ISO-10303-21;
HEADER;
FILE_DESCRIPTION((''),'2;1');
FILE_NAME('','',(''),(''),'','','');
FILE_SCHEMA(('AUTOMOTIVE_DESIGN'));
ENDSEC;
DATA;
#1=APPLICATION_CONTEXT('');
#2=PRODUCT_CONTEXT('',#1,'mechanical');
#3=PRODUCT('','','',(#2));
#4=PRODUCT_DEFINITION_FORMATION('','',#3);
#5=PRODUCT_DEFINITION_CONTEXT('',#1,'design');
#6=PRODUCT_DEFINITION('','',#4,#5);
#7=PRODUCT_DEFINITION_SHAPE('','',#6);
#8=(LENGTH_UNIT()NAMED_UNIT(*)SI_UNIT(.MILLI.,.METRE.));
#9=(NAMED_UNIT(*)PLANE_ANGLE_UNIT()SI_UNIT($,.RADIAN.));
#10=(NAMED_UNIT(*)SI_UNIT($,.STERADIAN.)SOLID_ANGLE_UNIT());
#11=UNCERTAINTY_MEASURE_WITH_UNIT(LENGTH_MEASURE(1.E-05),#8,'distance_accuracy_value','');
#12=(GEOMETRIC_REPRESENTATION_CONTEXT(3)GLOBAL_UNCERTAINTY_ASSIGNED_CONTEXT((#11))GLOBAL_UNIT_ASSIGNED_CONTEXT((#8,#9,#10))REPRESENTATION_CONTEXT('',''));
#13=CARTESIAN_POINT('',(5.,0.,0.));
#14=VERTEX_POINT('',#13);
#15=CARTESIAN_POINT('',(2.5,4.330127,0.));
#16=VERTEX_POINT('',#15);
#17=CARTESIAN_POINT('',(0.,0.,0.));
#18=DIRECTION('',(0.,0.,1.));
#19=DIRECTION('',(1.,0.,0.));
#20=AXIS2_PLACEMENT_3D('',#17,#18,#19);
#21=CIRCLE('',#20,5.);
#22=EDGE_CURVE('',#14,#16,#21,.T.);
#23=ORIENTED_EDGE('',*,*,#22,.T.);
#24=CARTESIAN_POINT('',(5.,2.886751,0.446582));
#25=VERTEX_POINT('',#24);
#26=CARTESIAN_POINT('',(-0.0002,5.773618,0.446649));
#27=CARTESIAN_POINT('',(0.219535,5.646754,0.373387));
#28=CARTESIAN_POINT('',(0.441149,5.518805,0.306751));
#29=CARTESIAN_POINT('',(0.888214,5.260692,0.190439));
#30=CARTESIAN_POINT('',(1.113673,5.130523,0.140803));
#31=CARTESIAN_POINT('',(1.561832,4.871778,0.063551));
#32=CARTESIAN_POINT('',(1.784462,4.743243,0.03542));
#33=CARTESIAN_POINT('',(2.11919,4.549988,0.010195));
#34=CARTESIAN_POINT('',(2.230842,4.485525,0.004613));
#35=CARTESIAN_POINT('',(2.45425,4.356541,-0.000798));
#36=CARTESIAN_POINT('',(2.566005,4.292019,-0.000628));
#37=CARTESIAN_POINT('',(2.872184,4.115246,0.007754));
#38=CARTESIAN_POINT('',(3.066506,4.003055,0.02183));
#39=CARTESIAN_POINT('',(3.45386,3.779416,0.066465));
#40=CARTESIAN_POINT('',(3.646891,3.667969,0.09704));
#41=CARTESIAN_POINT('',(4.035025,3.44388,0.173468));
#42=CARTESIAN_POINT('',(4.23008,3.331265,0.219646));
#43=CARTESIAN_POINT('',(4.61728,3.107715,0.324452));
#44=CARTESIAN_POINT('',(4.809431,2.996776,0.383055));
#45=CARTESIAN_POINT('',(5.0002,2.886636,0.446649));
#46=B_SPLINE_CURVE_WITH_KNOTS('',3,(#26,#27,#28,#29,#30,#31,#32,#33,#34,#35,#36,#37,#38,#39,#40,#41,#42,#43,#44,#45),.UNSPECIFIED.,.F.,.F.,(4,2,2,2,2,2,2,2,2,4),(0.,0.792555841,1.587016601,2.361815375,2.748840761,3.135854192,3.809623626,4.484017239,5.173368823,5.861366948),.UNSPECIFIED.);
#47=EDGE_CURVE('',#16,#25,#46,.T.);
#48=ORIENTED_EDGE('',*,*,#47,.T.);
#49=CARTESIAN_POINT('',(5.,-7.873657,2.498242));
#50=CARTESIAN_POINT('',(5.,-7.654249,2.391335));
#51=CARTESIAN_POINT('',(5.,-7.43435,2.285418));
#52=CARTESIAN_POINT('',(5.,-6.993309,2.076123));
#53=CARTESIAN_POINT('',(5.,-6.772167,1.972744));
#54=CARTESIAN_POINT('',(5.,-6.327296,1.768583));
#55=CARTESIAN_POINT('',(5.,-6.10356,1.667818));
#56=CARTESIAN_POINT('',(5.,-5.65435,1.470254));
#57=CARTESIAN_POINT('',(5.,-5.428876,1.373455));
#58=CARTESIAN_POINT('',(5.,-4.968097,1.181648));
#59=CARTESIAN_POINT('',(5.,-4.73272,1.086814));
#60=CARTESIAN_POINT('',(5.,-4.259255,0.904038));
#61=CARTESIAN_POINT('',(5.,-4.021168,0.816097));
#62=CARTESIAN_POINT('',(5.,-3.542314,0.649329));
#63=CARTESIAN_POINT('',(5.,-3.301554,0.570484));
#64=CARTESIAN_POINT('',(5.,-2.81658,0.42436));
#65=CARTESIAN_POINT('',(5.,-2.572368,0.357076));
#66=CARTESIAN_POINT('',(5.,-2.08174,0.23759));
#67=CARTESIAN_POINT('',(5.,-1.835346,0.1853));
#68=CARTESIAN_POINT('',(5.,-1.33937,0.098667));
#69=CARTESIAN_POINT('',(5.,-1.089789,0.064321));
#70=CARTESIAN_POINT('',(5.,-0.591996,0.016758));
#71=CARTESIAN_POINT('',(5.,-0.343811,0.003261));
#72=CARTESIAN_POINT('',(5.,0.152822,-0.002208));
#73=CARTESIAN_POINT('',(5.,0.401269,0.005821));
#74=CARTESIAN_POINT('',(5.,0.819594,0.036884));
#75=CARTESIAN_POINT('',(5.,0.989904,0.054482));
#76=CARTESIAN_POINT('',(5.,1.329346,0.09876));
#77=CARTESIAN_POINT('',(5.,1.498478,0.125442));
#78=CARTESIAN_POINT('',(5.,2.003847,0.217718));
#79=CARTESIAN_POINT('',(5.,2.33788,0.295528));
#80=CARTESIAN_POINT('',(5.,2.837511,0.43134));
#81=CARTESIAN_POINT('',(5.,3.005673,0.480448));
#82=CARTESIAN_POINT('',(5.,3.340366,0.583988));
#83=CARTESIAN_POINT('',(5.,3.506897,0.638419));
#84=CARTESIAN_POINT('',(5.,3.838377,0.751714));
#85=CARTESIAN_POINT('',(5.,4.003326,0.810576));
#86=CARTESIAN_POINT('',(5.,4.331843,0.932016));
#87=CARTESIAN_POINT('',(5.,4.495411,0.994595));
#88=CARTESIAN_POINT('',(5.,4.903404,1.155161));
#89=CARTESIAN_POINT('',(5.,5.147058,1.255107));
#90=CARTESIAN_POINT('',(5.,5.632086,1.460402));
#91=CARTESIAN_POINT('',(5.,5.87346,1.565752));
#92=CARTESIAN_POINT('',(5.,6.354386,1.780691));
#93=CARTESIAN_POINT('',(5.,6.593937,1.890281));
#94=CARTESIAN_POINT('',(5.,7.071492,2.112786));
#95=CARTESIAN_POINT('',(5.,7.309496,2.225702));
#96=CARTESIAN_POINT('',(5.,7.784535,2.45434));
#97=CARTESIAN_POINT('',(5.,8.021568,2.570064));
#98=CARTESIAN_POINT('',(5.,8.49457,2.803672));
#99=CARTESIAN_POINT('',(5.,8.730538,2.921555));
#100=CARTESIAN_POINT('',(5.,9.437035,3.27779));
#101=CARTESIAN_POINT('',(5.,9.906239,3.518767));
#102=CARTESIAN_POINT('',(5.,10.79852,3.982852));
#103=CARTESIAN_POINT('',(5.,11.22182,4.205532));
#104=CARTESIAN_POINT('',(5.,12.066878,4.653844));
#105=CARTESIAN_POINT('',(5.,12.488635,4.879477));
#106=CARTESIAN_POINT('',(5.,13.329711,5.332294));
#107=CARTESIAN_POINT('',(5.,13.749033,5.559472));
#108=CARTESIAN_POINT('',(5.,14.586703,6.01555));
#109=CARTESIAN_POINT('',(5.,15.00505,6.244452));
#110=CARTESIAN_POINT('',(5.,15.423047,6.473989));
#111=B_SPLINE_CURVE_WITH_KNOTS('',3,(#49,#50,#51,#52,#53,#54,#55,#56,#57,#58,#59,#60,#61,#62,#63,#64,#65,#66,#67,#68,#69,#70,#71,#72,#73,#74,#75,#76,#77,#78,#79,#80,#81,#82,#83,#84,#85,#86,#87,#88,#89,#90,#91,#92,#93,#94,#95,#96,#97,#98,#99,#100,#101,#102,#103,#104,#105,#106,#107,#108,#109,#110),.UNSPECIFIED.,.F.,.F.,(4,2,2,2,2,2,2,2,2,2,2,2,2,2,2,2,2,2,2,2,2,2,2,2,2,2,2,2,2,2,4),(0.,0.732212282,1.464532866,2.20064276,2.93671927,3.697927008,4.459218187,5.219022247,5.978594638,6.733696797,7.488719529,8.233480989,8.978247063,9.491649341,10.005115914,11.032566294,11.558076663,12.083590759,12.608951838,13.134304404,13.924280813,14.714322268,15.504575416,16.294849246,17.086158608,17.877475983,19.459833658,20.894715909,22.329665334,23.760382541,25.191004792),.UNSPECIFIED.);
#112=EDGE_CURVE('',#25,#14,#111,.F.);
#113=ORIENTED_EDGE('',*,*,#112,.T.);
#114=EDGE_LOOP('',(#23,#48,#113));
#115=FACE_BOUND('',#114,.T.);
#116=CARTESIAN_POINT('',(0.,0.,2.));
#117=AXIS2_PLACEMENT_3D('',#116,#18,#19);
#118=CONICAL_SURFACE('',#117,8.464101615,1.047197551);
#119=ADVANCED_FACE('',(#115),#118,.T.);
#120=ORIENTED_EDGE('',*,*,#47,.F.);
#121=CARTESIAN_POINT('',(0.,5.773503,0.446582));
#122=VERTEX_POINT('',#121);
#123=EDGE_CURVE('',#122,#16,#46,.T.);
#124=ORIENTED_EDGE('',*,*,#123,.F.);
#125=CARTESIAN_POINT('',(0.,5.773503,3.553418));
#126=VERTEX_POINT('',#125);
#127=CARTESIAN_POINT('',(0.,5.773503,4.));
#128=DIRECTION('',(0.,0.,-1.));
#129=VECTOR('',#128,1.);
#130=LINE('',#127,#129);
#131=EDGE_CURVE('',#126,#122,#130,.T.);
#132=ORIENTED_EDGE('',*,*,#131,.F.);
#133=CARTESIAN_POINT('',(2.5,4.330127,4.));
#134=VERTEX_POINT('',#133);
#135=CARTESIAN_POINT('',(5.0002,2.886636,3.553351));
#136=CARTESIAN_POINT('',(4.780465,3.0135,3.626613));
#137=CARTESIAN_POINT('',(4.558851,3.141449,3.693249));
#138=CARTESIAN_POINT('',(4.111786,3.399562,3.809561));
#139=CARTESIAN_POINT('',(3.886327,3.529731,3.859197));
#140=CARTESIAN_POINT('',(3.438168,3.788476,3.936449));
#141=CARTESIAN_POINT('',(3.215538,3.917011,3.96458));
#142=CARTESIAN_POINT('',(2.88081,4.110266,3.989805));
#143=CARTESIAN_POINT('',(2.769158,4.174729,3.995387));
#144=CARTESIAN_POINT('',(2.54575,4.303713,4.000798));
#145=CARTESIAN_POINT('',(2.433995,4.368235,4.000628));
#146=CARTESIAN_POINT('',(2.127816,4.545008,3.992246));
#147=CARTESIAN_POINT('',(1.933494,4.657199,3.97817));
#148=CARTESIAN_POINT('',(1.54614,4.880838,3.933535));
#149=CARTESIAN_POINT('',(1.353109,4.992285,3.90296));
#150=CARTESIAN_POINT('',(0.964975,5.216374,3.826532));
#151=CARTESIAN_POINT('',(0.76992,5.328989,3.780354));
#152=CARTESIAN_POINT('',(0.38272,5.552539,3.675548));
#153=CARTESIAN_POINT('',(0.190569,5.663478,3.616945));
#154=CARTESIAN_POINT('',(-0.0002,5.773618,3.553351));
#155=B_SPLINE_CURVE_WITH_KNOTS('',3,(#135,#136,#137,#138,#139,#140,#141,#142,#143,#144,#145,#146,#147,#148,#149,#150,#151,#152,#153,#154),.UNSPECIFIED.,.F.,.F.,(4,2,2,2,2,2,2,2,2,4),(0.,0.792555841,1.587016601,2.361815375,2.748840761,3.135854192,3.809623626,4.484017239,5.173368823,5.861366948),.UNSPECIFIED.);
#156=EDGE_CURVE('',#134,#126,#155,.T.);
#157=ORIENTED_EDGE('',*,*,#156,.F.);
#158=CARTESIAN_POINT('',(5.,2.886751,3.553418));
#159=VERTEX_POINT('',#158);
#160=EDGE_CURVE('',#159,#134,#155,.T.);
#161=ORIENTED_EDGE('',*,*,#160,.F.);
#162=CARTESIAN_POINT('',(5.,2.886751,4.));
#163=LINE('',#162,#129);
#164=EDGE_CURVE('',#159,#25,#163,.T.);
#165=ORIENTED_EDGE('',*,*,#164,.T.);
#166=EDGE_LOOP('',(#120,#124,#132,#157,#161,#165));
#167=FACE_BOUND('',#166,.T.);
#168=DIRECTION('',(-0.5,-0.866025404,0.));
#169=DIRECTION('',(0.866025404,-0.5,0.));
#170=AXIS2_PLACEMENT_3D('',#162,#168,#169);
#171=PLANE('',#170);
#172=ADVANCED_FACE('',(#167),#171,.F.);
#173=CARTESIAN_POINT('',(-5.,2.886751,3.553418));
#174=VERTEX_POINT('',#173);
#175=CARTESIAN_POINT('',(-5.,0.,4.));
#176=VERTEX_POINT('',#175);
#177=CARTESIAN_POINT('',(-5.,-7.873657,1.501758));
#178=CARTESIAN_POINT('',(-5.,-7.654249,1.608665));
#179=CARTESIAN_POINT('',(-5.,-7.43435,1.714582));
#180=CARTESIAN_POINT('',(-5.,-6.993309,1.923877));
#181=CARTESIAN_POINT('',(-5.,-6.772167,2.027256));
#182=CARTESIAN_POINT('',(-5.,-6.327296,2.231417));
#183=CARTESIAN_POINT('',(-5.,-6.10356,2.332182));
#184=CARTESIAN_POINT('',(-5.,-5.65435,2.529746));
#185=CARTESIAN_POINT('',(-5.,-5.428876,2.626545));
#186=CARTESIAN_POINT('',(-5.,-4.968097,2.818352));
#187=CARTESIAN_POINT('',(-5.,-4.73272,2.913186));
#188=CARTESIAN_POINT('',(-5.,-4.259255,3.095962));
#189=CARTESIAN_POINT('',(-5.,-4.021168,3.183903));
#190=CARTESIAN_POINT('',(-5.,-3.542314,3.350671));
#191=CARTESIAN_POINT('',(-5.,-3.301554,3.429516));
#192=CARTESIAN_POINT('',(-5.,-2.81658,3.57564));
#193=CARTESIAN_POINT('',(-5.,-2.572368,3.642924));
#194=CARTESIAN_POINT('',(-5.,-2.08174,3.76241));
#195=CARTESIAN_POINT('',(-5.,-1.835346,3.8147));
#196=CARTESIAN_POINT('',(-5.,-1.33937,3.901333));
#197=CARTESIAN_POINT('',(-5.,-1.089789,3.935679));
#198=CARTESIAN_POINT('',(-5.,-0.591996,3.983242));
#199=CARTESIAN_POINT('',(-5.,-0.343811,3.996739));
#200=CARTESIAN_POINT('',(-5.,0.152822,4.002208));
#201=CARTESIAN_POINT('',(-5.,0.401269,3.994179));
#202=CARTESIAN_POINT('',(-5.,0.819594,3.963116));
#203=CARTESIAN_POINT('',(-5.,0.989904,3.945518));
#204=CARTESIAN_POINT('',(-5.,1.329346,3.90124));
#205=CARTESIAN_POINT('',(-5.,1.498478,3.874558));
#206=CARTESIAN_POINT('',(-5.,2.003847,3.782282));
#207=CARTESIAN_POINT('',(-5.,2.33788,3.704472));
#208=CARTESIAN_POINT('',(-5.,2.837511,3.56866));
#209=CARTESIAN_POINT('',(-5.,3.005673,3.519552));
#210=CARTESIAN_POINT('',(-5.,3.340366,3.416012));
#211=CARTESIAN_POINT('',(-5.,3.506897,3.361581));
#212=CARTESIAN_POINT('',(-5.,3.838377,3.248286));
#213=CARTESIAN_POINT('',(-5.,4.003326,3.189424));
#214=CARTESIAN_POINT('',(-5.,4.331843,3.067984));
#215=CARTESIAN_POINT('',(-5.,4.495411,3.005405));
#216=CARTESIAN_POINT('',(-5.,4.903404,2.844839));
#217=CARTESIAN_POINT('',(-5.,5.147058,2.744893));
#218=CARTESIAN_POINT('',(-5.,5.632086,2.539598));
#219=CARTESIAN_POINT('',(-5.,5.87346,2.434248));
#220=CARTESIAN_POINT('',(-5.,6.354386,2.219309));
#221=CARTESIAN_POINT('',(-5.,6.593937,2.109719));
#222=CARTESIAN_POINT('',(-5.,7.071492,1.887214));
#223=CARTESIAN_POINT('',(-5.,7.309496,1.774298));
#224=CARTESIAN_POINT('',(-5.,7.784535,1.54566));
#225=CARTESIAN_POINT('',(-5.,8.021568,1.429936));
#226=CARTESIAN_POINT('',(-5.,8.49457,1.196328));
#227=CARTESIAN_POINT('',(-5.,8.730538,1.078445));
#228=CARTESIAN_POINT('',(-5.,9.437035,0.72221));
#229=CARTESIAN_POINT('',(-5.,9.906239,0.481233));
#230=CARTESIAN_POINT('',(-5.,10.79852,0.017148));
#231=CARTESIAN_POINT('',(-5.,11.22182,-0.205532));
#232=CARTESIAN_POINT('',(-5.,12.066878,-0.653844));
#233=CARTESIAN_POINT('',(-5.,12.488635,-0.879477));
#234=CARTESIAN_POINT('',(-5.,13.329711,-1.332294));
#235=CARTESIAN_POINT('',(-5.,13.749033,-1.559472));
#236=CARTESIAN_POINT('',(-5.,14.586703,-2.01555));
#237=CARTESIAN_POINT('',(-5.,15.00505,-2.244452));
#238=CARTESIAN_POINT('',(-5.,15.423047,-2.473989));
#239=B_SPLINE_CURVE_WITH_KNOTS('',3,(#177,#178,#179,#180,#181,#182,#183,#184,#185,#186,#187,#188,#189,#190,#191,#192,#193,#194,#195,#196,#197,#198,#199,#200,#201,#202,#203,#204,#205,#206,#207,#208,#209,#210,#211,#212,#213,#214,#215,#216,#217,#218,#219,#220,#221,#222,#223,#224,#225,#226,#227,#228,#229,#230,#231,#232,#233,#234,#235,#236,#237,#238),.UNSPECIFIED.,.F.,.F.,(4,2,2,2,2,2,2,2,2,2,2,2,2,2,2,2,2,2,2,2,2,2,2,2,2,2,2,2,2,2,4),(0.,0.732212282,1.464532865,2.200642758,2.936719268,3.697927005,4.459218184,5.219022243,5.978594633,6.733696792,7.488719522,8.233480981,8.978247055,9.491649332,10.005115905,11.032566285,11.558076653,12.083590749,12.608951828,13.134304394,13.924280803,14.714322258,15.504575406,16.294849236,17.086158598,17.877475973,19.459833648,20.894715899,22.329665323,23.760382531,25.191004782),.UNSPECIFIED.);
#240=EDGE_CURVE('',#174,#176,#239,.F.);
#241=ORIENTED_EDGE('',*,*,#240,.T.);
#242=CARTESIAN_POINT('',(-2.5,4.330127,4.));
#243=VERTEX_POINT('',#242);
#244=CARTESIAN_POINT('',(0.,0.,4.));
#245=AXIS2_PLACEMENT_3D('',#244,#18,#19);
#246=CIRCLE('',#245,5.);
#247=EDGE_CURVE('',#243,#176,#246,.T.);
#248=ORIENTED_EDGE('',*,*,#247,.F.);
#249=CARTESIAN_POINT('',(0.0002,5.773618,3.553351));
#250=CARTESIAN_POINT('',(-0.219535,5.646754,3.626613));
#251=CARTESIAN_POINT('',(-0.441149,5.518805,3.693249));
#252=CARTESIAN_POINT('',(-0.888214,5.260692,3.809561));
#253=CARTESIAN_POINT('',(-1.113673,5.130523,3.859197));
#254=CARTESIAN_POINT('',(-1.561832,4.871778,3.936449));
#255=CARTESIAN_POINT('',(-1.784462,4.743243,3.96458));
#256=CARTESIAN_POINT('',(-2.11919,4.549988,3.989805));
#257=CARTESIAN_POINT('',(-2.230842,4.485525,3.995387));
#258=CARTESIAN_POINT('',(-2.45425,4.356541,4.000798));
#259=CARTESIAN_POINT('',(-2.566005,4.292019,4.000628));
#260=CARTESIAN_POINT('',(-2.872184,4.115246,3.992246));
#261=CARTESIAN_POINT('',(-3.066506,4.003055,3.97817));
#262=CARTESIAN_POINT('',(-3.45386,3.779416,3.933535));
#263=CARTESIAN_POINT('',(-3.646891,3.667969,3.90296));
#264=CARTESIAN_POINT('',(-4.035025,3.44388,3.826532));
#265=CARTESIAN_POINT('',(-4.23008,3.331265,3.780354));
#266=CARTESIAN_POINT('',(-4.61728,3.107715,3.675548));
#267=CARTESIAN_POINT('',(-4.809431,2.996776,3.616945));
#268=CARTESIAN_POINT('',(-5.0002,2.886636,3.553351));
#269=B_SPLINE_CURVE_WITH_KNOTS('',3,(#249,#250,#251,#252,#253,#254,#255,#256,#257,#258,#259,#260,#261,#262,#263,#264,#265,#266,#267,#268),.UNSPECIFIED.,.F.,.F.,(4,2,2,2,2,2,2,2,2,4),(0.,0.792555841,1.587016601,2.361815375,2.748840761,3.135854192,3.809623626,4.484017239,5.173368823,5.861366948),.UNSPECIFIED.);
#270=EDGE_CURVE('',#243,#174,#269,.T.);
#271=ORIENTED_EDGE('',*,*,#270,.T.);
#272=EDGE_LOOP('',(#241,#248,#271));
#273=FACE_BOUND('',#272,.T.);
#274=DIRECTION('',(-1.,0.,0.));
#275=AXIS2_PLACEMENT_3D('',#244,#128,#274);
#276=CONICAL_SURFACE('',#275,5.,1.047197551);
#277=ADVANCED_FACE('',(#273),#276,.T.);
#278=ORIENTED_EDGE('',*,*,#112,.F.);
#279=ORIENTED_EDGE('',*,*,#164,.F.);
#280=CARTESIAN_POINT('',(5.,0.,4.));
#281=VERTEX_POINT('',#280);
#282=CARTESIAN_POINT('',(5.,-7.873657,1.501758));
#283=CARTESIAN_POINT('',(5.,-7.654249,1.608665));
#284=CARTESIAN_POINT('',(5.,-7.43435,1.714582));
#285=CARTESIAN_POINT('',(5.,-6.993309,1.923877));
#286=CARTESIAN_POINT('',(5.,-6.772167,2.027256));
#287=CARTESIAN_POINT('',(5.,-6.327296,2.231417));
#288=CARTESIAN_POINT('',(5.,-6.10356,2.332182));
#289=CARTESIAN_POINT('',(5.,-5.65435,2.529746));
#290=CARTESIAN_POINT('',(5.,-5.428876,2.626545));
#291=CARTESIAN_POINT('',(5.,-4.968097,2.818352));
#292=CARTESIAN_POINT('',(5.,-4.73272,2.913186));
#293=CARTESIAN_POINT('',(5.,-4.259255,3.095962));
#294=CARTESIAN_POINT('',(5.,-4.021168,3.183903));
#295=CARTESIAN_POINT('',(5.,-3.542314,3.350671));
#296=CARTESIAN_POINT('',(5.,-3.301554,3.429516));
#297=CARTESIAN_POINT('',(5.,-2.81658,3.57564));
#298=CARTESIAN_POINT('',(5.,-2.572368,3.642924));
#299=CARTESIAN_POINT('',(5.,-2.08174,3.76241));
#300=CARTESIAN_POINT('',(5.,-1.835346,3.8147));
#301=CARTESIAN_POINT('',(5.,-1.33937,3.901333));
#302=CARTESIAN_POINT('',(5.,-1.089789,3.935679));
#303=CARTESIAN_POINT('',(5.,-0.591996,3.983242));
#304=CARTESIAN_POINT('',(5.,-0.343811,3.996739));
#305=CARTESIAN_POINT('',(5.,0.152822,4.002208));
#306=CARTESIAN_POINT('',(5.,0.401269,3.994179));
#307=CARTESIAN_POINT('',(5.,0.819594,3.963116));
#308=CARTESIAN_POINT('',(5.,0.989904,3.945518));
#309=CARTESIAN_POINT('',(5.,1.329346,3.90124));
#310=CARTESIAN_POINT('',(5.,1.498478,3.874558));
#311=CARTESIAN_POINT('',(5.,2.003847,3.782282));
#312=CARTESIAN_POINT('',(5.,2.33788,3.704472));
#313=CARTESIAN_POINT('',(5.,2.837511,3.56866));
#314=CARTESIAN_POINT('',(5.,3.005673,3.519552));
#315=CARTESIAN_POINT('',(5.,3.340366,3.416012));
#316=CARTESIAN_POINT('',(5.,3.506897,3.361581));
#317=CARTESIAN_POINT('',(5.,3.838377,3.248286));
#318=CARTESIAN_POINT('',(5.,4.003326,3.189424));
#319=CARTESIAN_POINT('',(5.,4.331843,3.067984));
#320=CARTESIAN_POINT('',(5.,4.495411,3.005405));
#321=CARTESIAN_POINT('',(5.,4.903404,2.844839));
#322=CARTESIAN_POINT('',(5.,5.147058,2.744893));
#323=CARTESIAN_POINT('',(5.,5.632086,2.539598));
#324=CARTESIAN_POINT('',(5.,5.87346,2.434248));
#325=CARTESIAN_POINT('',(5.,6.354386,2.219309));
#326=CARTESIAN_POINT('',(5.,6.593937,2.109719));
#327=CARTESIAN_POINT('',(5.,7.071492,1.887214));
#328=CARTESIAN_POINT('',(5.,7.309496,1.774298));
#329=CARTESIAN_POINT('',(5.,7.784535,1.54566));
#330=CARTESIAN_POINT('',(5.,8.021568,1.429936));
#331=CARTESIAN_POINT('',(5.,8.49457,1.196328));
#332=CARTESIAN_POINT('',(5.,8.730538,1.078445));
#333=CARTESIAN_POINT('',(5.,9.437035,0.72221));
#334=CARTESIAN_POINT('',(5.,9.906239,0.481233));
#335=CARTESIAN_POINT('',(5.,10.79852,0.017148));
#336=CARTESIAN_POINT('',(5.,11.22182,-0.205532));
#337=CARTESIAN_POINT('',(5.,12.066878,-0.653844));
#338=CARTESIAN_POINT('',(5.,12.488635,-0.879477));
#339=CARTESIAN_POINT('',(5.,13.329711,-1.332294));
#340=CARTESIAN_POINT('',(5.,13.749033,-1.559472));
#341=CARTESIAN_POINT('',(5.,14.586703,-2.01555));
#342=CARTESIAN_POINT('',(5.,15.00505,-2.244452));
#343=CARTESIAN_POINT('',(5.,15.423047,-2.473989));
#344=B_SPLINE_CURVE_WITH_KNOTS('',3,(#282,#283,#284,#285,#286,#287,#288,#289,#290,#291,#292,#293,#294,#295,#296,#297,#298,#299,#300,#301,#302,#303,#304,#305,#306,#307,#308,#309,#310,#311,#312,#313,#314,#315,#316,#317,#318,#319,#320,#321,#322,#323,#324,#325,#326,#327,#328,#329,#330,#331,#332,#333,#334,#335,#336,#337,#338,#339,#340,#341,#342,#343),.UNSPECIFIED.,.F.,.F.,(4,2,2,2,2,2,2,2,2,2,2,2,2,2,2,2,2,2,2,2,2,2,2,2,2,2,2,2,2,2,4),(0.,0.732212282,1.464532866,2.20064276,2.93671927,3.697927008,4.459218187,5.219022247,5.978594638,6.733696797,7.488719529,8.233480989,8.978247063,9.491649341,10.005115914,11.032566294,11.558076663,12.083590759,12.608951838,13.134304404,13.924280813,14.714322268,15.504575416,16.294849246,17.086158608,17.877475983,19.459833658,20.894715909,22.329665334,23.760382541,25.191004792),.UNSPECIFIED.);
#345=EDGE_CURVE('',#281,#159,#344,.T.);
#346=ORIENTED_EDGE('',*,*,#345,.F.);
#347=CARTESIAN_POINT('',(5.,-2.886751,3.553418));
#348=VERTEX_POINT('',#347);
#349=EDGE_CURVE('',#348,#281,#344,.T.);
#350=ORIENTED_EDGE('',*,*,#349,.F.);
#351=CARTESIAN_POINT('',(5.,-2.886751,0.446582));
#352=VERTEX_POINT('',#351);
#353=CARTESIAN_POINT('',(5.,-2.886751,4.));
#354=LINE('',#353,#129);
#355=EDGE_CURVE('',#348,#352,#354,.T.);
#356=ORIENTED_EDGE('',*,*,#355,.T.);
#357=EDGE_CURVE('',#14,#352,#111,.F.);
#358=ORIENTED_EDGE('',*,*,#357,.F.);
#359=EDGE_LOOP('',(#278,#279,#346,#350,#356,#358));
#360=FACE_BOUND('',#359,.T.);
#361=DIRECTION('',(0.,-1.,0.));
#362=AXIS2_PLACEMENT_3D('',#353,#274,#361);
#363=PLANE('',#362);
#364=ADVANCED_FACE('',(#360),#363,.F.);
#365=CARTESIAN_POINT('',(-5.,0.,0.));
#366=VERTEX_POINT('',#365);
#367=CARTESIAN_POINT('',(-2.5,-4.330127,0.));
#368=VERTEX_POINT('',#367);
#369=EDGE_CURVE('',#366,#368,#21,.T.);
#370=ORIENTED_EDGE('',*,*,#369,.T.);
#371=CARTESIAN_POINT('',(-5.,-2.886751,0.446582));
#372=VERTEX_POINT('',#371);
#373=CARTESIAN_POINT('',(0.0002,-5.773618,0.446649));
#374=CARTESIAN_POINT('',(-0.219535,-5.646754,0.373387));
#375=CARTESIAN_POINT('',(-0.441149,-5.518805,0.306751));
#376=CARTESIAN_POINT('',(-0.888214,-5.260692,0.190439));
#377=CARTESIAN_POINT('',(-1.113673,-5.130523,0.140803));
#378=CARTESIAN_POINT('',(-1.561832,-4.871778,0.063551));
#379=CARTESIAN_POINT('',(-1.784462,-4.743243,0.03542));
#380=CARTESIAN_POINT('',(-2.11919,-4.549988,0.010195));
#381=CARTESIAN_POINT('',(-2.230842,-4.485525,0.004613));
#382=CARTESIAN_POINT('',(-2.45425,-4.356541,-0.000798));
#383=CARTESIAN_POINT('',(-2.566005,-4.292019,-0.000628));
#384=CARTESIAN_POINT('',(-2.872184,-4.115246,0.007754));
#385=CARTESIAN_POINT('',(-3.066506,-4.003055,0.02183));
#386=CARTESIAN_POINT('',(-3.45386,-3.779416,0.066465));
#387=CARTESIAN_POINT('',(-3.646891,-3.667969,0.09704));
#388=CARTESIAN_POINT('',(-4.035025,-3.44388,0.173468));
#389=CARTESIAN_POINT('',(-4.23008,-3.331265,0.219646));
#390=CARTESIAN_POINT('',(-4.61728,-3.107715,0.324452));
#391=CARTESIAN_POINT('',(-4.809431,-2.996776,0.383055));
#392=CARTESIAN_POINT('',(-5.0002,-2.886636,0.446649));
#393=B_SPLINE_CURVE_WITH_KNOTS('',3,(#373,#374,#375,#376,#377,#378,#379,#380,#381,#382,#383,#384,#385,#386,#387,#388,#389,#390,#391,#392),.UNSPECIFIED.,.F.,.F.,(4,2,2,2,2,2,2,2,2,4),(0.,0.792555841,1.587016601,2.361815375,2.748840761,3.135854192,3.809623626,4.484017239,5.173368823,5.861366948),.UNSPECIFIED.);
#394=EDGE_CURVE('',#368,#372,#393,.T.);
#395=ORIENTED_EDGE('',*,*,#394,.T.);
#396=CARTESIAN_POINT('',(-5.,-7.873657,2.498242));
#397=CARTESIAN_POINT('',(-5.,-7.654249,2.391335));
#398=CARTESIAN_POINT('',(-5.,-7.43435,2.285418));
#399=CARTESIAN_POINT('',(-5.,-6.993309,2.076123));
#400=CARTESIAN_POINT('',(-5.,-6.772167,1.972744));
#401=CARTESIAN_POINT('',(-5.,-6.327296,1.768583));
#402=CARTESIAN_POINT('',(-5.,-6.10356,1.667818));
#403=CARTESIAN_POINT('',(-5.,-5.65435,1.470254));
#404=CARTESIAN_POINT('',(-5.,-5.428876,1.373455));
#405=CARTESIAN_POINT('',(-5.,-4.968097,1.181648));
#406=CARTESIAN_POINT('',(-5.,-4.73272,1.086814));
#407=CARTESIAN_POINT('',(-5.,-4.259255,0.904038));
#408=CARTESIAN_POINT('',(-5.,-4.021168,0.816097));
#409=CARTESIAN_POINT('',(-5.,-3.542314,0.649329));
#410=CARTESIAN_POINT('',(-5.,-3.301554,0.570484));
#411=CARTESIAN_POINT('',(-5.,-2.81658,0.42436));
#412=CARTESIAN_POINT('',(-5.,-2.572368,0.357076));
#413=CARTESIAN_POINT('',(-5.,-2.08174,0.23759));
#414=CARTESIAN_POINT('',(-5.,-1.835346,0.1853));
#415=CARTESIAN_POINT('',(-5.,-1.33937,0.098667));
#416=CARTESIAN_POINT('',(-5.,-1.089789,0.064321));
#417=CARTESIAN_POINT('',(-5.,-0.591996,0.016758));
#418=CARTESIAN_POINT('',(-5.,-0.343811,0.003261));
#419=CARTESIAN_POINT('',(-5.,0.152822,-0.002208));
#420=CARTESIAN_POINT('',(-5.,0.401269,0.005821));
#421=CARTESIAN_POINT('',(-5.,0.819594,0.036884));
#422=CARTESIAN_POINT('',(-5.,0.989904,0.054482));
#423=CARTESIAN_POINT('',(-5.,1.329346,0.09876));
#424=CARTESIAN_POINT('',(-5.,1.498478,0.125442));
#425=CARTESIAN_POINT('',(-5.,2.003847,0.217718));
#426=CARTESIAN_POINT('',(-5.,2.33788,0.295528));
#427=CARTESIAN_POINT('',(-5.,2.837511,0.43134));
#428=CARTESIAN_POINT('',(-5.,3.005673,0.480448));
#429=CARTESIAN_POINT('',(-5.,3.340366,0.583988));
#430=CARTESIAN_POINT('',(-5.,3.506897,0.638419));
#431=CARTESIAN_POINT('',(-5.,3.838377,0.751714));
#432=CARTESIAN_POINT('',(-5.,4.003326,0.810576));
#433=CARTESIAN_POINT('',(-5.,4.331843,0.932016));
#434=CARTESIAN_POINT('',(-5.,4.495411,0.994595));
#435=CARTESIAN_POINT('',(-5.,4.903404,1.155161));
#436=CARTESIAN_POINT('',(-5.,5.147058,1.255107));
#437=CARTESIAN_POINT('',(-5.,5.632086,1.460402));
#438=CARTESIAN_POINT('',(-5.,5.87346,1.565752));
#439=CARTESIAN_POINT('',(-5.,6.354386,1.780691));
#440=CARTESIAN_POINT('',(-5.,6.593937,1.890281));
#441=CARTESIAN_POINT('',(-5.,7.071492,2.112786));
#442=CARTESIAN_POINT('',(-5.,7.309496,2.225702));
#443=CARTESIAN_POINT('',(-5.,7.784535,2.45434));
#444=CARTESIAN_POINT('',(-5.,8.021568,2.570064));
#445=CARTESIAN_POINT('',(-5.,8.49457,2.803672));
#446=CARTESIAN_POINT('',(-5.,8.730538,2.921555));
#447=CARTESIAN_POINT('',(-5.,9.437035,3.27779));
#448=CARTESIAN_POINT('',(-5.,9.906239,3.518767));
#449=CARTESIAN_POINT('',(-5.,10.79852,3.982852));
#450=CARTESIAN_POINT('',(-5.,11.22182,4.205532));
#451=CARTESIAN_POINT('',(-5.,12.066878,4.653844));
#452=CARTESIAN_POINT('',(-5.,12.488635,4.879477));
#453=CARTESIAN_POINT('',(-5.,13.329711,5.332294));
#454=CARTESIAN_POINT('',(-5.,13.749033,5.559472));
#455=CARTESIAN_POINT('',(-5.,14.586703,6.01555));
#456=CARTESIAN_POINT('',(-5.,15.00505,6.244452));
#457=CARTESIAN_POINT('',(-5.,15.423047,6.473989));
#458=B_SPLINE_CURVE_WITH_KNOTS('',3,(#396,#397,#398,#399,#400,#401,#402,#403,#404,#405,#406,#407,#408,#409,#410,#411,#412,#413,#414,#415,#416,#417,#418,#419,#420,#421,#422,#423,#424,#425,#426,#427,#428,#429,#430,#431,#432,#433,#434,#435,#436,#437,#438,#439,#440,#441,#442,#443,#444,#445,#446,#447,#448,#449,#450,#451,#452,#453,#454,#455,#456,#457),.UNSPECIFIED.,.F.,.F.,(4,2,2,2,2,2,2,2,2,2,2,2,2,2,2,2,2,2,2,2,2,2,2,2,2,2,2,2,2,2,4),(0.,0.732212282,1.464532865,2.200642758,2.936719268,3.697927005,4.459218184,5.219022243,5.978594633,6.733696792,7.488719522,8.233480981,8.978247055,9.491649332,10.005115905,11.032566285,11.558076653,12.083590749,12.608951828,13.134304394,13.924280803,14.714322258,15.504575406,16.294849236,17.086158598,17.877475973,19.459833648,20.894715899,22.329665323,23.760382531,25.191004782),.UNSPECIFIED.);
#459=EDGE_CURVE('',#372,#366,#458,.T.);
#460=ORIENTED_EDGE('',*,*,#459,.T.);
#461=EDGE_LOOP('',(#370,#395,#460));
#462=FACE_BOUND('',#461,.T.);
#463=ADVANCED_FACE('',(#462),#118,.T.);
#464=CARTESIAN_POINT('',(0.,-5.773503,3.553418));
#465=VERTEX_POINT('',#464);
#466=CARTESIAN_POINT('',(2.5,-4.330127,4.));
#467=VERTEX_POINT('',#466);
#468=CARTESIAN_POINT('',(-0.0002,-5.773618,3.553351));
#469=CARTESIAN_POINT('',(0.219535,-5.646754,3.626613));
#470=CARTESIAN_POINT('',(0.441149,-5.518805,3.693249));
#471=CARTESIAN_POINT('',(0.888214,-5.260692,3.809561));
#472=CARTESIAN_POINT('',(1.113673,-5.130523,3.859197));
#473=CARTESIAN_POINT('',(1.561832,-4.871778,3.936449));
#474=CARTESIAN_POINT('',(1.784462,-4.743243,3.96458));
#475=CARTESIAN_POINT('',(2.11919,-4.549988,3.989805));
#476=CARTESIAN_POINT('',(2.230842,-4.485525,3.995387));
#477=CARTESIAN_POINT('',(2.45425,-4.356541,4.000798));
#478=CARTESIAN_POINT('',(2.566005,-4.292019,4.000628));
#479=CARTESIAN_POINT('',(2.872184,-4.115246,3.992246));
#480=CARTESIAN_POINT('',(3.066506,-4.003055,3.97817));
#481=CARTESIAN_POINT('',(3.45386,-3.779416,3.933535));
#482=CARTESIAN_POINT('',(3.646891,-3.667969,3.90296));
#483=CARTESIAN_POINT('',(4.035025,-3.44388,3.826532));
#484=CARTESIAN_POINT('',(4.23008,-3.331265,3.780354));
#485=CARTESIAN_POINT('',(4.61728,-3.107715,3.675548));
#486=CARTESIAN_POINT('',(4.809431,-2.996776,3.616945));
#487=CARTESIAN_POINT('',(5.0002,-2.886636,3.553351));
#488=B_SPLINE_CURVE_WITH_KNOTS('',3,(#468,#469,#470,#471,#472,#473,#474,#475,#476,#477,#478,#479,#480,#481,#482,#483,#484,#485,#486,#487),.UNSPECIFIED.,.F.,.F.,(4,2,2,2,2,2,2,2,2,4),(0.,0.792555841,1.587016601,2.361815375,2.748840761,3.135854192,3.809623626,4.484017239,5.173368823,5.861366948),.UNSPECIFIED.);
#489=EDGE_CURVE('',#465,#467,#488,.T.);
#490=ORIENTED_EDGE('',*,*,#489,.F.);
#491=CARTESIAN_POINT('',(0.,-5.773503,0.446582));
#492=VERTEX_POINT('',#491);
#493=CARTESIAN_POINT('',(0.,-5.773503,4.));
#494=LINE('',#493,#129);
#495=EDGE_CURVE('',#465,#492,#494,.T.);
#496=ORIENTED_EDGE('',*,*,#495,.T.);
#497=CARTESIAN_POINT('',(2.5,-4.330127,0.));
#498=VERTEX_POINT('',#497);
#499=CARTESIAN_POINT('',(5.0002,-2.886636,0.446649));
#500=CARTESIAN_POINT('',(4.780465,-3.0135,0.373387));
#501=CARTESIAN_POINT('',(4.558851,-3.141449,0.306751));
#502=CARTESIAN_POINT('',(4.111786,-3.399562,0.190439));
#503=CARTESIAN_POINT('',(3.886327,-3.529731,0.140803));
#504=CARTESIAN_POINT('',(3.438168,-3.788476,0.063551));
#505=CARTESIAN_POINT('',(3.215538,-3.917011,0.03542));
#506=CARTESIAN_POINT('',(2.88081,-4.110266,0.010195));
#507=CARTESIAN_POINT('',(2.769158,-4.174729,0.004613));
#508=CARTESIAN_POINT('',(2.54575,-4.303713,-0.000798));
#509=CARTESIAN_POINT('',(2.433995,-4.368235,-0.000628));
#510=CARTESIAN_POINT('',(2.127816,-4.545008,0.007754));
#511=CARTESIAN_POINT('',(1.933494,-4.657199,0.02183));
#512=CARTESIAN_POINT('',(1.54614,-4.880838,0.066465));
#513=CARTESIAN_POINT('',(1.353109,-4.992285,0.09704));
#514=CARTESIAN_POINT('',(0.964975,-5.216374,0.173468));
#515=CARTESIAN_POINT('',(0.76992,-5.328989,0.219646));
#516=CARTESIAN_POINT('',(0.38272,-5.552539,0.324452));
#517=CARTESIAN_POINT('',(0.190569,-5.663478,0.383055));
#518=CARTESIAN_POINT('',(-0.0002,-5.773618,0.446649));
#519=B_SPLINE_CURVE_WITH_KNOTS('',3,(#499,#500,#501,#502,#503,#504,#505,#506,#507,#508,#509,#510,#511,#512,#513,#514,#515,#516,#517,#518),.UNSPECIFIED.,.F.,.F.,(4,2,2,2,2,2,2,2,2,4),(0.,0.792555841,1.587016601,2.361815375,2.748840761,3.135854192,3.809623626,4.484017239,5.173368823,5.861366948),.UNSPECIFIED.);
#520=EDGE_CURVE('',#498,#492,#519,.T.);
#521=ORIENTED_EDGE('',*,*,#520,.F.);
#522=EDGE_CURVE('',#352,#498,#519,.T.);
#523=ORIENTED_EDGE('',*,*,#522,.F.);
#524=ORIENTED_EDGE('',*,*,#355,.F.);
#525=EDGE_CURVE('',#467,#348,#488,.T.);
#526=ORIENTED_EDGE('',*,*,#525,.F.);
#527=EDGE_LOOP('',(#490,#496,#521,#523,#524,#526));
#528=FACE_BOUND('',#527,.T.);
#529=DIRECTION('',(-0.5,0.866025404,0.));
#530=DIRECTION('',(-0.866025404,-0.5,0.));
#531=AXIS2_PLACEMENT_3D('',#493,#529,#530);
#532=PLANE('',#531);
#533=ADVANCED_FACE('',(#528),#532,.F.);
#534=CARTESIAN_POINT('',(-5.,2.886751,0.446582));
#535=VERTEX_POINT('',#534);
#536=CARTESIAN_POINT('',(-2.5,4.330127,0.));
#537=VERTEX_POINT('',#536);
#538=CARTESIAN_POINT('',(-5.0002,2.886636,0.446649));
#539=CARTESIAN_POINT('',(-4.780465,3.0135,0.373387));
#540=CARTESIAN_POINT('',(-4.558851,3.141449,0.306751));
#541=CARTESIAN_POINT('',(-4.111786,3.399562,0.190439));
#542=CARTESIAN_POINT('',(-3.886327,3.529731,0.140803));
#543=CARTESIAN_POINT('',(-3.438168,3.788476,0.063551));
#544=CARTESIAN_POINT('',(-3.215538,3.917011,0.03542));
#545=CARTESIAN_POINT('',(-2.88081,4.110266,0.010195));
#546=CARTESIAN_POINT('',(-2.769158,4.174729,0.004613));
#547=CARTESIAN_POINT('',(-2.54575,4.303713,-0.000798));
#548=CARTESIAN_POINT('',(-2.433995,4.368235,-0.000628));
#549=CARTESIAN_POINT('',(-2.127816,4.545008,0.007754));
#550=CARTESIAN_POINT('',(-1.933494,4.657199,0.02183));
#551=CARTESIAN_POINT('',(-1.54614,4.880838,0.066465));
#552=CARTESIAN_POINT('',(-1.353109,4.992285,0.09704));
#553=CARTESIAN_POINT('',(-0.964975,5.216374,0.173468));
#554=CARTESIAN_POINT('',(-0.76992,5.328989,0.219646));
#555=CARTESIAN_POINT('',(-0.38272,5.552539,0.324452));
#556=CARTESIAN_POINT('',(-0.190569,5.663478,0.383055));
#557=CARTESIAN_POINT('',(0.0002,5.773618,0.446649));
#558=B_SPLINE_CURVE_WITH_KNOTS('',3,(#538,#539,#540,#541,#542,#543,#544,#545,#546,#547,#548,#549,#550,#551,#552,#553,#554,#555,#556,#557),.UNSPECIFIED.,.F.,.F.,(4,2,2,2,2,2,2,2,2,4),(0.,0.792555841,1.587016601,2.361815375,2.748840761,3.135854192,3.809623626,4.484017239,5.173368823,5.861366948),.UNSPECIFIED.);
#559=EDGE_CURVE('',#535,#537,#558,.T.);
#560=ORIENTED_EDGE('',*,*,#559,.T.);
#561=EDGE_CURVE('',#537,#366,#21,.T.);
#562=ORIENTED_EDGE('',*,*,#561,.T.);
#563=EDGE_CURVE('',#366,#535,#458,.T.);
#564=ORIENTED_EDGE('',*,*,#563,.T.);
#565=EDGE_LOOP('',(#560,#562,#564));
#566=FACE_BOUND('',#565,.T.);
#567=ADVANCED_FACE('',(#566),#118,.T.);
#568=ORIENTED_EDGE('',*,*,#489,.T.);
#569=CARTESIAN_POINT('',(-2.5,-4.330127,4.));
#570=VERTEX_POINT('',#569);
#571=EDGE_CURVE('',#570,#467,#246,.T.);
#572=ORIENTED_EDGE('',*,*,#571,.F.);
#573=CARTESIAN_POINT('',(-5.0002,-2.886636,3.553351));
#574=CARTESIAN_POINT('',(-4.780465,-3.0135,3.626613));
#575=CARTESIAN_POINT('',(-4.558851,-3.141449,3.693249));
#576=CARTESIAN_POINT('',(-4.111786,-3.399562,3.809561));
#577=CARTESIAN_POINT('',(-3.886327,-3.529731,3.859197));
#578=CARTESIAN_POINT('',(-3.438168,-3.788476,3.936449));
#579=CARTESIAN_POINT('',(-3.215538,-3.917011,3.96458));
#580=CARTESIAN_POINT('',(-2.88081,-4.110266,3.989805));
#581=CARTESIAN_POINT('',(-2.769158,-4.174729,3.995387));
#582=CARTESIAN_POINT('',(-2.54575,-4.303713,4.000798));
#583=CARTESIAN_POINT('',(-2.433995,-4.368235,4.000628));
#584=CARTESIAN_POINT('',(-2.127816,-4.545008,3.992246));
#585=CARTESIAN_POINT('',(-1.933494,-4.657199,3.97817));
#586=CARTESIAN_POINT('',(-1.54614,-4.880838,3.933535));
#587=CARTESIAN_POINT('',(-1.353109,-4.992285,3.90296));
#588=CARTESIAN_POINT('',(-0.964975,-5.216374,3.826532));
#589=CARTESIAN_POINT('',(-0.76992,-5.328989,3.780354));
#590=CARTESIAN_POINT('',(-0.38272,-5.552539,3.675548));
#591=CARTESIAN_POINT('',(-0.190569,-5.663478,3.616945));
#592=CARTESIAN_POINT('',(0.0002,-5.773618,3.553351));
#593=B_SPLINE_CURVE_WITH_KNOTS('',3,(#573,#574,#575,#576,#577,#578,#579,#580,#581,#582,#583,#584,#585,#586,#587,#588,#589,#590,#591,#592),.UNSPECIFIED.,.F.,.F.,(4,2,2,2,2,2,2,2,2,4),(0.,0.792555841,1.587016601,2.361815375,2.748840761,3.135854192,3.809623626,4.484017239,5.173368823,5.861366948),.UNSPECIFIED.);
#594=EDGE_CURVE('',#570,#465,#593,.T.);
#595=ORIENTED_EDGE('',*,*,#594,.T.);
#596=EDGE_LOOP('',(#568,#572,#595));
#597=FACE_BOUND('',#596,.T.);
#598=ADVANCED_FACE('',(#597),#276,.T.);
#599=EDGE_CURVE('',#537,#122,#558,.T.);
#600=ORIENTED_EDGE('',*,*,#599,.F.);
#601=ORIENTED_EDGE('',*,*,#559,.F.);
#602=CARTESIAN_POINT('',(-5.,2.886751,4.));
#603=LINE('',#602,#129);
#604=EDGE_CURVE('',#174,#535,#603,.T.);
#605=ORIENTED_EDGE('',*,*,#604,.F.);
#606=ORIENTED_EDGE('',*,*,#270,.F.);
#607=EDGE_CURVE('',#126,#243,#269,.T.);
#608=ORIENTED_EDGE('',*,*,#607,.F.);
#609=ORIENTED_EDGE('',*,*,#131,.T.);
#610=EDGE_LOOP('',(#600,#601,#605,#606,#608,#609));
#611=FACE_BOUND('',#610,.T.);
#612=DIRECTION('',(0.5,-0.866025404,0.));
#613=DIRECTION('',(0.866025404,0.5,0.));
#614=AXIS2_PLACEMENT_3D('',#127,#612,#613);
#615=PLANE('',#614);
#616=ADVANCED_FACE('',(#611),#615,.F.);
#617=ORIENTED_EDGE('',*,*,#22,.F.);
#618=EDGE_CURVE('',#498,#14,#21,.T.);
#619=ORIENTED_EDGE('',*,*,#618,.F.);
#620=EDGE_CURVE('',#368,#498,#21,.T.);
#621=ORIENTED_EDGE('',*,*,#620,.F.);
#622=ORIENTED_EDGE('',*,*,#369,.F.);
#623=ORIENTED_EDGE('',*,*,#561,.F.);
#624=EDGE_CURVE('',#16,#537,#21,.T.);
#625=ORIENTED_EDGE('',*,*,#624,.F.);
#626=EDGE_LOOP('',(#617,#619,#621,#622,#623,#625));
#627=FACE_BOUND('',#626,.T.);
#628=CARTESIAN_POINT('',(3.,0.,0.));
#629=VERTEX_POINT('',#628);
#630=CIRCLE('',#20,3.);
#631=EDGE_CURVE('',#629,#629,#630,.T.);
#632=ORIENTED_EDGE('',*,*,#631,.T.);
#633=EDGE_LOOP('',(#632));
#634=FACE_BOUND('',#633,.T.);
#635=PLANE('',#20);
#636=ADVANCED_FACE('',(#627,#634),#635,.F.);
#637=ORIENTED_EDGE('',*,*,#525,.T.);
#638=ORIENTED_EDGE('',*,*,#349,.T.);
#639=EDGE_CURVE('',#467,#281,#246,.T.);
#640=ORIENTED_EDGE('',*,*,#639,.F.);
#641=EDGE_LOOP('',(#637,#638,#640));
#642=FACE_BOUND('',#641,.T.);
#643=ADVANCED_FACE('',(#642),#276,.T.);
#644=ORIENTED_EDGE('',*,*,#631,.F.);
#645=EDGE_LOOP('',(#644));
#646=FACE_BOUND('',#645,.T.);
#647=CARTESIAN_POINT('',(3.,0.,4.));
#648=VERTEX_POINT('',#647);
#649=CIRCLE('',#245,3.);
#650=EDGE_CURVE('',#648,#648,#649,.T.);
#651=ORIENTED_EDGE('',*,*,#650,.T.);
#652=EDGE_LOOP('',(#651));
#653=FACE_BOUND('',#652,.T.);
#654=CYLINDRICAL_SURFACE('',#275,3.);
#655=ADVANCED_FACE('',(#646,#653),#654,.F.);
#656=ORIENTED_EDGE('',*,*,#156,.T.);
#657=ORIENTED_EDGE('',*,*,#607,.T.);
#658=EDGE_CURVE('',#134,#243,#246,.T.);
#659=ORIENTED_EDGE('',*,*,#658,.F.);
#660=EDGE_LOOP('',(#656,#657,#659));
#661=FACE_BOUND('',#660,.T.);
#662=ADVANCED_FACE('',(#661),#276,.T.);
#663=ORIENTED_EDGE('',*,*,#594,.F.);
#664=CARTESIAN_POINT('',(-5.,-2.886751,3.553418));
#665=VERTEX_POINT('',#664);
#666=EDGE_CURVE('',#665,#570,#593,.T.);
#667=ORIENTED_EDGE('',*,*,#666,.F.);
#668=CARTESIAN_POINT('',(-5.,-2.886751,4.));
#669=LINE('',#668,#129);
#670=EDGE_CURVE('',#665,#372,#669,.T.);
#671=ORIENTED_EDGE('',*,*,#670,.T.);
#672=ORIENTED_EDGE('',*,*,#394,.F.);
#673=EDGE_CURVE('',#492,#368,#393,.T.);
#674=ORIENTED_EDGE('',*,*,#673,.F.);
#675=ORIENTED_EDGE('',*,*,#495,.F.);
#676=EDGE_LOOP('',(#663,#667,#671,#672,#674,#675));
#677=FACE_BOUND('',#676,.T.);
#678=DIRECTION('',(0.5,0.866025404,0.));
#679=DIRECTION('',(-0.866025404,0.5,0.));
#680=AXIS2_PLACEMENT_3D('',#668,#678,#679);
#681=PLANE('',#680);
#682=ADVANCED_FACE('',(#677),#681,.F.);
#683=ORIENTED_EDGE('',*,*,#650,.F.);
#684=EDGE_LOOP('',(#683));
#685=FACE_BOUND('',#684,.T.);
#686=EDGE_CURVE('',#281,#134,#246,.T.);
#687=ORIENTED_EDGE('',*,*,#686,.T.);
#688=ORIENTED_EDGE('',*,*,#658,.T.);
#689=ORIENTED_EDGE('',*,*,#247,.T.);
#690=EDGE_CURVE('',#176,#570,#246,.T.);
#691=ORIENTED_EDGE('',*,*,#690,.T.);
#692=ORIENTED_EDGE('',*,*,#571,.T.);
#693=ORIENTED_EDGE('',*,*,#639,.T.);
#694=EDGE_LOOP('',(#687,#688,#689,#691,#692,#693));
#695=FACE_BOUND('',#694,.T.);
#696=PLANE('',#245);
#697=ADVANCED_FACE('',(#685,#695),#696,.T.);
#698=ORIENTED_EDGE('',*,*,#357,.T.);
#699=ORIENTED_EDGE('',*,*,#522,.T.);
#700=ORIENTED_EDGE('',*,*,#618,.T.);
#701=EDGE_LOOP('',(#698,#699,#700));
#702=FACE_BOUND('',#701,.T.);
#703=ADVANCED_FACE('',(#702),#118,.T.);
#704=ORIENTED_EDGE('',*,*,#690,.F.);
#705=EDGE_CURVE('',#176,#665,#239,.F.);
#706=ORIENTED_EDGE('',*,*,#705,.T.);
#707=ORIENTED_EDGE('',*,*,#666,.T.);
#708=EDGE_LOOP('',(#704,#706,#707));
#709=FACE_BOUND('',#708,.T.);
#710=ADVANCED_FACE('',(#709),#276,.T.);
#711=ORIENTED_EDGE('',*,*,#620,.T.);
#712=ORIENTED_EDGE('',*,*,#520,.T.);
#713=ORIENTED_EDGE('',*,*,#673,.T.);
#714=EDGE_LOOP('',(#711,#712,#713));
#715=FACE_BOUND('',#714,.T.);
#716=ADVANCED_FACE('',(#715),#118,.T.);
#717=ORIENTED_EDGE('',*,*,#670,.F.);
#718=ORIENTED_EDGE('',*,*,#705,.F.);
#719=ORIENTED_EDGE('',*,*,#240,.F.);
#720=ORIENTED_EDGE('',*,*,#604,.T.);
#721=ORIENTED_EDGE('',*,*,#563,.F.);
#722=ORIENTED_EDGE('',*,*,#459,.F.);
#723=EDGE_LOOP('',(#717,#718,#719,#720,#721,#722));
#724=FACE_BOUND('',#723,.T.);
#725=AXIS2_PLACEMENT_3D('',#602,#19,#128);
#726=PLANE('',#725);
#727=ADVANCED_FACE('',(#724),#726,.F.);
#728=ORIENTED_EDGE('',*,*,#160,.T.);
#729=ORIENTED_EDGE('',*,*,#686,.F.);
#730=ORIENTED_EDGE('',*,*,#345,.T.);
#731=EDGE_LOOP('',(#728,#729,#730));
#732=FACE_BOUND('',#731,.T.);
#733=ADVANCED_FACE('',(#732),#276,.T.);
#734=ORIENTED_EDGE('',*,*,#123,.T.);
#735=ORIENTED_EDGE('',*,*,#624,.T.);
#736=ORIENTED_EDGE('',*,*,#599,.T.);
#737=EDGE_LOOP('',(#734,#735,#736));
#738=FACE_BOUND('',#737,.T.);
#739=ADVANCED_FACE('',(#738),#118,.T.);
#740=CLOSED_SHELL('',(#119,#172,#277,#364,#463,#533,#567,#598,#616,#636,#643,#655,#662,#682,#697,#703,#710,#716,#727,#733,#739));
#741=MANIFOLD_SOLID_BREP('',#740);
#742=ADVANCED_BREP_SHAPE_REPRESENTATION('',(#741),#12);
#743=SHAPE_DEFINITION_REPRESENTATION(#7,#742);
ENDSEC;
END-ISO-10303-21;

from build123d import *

# Parameters (mm, degrees)
SZKIC1_R                    = 3
DODANIE_WYCI_GNI_CIE1_DEPTH = 4


with BuildPart() as part:
    # Szkic1 → Dodanie-wyciągnięcie1 (new body)
    with BuildSketch(Plane.XY):
        Polygon((5, 2.886751346), (0, 5.773502692), (-5, 2.886751346), (-5, -2.886751346), (0, -5.773502692), (5, -2.886751346), align=None)
        Circle(SZKIC1_R, mode=Mode.SUBTRACT)
    extrude(amount=DODANIE_WYCI_GNI_CIE1_DEPTH)

    # Szkic2 → Wycięcie-obrót1 (revolve, cut)
    with BuildSketch(Plane(origin=(0, 0, 0), x_dir=(1, 0, 0), z_dir=(0, 1, 0))):
        Polygon((-8.464101615, -4), (-5, -4), (-8.464101615, -2), align=None)
        Polygon((-8.464101615, -2), (-5, 0), (-8.464101615, 0), align=None)
    revolve(axis=Axis((0, 0, 9.891098034), (0, 0, -1)), mode=Mode.SUBTRACT)


solid = part.part
